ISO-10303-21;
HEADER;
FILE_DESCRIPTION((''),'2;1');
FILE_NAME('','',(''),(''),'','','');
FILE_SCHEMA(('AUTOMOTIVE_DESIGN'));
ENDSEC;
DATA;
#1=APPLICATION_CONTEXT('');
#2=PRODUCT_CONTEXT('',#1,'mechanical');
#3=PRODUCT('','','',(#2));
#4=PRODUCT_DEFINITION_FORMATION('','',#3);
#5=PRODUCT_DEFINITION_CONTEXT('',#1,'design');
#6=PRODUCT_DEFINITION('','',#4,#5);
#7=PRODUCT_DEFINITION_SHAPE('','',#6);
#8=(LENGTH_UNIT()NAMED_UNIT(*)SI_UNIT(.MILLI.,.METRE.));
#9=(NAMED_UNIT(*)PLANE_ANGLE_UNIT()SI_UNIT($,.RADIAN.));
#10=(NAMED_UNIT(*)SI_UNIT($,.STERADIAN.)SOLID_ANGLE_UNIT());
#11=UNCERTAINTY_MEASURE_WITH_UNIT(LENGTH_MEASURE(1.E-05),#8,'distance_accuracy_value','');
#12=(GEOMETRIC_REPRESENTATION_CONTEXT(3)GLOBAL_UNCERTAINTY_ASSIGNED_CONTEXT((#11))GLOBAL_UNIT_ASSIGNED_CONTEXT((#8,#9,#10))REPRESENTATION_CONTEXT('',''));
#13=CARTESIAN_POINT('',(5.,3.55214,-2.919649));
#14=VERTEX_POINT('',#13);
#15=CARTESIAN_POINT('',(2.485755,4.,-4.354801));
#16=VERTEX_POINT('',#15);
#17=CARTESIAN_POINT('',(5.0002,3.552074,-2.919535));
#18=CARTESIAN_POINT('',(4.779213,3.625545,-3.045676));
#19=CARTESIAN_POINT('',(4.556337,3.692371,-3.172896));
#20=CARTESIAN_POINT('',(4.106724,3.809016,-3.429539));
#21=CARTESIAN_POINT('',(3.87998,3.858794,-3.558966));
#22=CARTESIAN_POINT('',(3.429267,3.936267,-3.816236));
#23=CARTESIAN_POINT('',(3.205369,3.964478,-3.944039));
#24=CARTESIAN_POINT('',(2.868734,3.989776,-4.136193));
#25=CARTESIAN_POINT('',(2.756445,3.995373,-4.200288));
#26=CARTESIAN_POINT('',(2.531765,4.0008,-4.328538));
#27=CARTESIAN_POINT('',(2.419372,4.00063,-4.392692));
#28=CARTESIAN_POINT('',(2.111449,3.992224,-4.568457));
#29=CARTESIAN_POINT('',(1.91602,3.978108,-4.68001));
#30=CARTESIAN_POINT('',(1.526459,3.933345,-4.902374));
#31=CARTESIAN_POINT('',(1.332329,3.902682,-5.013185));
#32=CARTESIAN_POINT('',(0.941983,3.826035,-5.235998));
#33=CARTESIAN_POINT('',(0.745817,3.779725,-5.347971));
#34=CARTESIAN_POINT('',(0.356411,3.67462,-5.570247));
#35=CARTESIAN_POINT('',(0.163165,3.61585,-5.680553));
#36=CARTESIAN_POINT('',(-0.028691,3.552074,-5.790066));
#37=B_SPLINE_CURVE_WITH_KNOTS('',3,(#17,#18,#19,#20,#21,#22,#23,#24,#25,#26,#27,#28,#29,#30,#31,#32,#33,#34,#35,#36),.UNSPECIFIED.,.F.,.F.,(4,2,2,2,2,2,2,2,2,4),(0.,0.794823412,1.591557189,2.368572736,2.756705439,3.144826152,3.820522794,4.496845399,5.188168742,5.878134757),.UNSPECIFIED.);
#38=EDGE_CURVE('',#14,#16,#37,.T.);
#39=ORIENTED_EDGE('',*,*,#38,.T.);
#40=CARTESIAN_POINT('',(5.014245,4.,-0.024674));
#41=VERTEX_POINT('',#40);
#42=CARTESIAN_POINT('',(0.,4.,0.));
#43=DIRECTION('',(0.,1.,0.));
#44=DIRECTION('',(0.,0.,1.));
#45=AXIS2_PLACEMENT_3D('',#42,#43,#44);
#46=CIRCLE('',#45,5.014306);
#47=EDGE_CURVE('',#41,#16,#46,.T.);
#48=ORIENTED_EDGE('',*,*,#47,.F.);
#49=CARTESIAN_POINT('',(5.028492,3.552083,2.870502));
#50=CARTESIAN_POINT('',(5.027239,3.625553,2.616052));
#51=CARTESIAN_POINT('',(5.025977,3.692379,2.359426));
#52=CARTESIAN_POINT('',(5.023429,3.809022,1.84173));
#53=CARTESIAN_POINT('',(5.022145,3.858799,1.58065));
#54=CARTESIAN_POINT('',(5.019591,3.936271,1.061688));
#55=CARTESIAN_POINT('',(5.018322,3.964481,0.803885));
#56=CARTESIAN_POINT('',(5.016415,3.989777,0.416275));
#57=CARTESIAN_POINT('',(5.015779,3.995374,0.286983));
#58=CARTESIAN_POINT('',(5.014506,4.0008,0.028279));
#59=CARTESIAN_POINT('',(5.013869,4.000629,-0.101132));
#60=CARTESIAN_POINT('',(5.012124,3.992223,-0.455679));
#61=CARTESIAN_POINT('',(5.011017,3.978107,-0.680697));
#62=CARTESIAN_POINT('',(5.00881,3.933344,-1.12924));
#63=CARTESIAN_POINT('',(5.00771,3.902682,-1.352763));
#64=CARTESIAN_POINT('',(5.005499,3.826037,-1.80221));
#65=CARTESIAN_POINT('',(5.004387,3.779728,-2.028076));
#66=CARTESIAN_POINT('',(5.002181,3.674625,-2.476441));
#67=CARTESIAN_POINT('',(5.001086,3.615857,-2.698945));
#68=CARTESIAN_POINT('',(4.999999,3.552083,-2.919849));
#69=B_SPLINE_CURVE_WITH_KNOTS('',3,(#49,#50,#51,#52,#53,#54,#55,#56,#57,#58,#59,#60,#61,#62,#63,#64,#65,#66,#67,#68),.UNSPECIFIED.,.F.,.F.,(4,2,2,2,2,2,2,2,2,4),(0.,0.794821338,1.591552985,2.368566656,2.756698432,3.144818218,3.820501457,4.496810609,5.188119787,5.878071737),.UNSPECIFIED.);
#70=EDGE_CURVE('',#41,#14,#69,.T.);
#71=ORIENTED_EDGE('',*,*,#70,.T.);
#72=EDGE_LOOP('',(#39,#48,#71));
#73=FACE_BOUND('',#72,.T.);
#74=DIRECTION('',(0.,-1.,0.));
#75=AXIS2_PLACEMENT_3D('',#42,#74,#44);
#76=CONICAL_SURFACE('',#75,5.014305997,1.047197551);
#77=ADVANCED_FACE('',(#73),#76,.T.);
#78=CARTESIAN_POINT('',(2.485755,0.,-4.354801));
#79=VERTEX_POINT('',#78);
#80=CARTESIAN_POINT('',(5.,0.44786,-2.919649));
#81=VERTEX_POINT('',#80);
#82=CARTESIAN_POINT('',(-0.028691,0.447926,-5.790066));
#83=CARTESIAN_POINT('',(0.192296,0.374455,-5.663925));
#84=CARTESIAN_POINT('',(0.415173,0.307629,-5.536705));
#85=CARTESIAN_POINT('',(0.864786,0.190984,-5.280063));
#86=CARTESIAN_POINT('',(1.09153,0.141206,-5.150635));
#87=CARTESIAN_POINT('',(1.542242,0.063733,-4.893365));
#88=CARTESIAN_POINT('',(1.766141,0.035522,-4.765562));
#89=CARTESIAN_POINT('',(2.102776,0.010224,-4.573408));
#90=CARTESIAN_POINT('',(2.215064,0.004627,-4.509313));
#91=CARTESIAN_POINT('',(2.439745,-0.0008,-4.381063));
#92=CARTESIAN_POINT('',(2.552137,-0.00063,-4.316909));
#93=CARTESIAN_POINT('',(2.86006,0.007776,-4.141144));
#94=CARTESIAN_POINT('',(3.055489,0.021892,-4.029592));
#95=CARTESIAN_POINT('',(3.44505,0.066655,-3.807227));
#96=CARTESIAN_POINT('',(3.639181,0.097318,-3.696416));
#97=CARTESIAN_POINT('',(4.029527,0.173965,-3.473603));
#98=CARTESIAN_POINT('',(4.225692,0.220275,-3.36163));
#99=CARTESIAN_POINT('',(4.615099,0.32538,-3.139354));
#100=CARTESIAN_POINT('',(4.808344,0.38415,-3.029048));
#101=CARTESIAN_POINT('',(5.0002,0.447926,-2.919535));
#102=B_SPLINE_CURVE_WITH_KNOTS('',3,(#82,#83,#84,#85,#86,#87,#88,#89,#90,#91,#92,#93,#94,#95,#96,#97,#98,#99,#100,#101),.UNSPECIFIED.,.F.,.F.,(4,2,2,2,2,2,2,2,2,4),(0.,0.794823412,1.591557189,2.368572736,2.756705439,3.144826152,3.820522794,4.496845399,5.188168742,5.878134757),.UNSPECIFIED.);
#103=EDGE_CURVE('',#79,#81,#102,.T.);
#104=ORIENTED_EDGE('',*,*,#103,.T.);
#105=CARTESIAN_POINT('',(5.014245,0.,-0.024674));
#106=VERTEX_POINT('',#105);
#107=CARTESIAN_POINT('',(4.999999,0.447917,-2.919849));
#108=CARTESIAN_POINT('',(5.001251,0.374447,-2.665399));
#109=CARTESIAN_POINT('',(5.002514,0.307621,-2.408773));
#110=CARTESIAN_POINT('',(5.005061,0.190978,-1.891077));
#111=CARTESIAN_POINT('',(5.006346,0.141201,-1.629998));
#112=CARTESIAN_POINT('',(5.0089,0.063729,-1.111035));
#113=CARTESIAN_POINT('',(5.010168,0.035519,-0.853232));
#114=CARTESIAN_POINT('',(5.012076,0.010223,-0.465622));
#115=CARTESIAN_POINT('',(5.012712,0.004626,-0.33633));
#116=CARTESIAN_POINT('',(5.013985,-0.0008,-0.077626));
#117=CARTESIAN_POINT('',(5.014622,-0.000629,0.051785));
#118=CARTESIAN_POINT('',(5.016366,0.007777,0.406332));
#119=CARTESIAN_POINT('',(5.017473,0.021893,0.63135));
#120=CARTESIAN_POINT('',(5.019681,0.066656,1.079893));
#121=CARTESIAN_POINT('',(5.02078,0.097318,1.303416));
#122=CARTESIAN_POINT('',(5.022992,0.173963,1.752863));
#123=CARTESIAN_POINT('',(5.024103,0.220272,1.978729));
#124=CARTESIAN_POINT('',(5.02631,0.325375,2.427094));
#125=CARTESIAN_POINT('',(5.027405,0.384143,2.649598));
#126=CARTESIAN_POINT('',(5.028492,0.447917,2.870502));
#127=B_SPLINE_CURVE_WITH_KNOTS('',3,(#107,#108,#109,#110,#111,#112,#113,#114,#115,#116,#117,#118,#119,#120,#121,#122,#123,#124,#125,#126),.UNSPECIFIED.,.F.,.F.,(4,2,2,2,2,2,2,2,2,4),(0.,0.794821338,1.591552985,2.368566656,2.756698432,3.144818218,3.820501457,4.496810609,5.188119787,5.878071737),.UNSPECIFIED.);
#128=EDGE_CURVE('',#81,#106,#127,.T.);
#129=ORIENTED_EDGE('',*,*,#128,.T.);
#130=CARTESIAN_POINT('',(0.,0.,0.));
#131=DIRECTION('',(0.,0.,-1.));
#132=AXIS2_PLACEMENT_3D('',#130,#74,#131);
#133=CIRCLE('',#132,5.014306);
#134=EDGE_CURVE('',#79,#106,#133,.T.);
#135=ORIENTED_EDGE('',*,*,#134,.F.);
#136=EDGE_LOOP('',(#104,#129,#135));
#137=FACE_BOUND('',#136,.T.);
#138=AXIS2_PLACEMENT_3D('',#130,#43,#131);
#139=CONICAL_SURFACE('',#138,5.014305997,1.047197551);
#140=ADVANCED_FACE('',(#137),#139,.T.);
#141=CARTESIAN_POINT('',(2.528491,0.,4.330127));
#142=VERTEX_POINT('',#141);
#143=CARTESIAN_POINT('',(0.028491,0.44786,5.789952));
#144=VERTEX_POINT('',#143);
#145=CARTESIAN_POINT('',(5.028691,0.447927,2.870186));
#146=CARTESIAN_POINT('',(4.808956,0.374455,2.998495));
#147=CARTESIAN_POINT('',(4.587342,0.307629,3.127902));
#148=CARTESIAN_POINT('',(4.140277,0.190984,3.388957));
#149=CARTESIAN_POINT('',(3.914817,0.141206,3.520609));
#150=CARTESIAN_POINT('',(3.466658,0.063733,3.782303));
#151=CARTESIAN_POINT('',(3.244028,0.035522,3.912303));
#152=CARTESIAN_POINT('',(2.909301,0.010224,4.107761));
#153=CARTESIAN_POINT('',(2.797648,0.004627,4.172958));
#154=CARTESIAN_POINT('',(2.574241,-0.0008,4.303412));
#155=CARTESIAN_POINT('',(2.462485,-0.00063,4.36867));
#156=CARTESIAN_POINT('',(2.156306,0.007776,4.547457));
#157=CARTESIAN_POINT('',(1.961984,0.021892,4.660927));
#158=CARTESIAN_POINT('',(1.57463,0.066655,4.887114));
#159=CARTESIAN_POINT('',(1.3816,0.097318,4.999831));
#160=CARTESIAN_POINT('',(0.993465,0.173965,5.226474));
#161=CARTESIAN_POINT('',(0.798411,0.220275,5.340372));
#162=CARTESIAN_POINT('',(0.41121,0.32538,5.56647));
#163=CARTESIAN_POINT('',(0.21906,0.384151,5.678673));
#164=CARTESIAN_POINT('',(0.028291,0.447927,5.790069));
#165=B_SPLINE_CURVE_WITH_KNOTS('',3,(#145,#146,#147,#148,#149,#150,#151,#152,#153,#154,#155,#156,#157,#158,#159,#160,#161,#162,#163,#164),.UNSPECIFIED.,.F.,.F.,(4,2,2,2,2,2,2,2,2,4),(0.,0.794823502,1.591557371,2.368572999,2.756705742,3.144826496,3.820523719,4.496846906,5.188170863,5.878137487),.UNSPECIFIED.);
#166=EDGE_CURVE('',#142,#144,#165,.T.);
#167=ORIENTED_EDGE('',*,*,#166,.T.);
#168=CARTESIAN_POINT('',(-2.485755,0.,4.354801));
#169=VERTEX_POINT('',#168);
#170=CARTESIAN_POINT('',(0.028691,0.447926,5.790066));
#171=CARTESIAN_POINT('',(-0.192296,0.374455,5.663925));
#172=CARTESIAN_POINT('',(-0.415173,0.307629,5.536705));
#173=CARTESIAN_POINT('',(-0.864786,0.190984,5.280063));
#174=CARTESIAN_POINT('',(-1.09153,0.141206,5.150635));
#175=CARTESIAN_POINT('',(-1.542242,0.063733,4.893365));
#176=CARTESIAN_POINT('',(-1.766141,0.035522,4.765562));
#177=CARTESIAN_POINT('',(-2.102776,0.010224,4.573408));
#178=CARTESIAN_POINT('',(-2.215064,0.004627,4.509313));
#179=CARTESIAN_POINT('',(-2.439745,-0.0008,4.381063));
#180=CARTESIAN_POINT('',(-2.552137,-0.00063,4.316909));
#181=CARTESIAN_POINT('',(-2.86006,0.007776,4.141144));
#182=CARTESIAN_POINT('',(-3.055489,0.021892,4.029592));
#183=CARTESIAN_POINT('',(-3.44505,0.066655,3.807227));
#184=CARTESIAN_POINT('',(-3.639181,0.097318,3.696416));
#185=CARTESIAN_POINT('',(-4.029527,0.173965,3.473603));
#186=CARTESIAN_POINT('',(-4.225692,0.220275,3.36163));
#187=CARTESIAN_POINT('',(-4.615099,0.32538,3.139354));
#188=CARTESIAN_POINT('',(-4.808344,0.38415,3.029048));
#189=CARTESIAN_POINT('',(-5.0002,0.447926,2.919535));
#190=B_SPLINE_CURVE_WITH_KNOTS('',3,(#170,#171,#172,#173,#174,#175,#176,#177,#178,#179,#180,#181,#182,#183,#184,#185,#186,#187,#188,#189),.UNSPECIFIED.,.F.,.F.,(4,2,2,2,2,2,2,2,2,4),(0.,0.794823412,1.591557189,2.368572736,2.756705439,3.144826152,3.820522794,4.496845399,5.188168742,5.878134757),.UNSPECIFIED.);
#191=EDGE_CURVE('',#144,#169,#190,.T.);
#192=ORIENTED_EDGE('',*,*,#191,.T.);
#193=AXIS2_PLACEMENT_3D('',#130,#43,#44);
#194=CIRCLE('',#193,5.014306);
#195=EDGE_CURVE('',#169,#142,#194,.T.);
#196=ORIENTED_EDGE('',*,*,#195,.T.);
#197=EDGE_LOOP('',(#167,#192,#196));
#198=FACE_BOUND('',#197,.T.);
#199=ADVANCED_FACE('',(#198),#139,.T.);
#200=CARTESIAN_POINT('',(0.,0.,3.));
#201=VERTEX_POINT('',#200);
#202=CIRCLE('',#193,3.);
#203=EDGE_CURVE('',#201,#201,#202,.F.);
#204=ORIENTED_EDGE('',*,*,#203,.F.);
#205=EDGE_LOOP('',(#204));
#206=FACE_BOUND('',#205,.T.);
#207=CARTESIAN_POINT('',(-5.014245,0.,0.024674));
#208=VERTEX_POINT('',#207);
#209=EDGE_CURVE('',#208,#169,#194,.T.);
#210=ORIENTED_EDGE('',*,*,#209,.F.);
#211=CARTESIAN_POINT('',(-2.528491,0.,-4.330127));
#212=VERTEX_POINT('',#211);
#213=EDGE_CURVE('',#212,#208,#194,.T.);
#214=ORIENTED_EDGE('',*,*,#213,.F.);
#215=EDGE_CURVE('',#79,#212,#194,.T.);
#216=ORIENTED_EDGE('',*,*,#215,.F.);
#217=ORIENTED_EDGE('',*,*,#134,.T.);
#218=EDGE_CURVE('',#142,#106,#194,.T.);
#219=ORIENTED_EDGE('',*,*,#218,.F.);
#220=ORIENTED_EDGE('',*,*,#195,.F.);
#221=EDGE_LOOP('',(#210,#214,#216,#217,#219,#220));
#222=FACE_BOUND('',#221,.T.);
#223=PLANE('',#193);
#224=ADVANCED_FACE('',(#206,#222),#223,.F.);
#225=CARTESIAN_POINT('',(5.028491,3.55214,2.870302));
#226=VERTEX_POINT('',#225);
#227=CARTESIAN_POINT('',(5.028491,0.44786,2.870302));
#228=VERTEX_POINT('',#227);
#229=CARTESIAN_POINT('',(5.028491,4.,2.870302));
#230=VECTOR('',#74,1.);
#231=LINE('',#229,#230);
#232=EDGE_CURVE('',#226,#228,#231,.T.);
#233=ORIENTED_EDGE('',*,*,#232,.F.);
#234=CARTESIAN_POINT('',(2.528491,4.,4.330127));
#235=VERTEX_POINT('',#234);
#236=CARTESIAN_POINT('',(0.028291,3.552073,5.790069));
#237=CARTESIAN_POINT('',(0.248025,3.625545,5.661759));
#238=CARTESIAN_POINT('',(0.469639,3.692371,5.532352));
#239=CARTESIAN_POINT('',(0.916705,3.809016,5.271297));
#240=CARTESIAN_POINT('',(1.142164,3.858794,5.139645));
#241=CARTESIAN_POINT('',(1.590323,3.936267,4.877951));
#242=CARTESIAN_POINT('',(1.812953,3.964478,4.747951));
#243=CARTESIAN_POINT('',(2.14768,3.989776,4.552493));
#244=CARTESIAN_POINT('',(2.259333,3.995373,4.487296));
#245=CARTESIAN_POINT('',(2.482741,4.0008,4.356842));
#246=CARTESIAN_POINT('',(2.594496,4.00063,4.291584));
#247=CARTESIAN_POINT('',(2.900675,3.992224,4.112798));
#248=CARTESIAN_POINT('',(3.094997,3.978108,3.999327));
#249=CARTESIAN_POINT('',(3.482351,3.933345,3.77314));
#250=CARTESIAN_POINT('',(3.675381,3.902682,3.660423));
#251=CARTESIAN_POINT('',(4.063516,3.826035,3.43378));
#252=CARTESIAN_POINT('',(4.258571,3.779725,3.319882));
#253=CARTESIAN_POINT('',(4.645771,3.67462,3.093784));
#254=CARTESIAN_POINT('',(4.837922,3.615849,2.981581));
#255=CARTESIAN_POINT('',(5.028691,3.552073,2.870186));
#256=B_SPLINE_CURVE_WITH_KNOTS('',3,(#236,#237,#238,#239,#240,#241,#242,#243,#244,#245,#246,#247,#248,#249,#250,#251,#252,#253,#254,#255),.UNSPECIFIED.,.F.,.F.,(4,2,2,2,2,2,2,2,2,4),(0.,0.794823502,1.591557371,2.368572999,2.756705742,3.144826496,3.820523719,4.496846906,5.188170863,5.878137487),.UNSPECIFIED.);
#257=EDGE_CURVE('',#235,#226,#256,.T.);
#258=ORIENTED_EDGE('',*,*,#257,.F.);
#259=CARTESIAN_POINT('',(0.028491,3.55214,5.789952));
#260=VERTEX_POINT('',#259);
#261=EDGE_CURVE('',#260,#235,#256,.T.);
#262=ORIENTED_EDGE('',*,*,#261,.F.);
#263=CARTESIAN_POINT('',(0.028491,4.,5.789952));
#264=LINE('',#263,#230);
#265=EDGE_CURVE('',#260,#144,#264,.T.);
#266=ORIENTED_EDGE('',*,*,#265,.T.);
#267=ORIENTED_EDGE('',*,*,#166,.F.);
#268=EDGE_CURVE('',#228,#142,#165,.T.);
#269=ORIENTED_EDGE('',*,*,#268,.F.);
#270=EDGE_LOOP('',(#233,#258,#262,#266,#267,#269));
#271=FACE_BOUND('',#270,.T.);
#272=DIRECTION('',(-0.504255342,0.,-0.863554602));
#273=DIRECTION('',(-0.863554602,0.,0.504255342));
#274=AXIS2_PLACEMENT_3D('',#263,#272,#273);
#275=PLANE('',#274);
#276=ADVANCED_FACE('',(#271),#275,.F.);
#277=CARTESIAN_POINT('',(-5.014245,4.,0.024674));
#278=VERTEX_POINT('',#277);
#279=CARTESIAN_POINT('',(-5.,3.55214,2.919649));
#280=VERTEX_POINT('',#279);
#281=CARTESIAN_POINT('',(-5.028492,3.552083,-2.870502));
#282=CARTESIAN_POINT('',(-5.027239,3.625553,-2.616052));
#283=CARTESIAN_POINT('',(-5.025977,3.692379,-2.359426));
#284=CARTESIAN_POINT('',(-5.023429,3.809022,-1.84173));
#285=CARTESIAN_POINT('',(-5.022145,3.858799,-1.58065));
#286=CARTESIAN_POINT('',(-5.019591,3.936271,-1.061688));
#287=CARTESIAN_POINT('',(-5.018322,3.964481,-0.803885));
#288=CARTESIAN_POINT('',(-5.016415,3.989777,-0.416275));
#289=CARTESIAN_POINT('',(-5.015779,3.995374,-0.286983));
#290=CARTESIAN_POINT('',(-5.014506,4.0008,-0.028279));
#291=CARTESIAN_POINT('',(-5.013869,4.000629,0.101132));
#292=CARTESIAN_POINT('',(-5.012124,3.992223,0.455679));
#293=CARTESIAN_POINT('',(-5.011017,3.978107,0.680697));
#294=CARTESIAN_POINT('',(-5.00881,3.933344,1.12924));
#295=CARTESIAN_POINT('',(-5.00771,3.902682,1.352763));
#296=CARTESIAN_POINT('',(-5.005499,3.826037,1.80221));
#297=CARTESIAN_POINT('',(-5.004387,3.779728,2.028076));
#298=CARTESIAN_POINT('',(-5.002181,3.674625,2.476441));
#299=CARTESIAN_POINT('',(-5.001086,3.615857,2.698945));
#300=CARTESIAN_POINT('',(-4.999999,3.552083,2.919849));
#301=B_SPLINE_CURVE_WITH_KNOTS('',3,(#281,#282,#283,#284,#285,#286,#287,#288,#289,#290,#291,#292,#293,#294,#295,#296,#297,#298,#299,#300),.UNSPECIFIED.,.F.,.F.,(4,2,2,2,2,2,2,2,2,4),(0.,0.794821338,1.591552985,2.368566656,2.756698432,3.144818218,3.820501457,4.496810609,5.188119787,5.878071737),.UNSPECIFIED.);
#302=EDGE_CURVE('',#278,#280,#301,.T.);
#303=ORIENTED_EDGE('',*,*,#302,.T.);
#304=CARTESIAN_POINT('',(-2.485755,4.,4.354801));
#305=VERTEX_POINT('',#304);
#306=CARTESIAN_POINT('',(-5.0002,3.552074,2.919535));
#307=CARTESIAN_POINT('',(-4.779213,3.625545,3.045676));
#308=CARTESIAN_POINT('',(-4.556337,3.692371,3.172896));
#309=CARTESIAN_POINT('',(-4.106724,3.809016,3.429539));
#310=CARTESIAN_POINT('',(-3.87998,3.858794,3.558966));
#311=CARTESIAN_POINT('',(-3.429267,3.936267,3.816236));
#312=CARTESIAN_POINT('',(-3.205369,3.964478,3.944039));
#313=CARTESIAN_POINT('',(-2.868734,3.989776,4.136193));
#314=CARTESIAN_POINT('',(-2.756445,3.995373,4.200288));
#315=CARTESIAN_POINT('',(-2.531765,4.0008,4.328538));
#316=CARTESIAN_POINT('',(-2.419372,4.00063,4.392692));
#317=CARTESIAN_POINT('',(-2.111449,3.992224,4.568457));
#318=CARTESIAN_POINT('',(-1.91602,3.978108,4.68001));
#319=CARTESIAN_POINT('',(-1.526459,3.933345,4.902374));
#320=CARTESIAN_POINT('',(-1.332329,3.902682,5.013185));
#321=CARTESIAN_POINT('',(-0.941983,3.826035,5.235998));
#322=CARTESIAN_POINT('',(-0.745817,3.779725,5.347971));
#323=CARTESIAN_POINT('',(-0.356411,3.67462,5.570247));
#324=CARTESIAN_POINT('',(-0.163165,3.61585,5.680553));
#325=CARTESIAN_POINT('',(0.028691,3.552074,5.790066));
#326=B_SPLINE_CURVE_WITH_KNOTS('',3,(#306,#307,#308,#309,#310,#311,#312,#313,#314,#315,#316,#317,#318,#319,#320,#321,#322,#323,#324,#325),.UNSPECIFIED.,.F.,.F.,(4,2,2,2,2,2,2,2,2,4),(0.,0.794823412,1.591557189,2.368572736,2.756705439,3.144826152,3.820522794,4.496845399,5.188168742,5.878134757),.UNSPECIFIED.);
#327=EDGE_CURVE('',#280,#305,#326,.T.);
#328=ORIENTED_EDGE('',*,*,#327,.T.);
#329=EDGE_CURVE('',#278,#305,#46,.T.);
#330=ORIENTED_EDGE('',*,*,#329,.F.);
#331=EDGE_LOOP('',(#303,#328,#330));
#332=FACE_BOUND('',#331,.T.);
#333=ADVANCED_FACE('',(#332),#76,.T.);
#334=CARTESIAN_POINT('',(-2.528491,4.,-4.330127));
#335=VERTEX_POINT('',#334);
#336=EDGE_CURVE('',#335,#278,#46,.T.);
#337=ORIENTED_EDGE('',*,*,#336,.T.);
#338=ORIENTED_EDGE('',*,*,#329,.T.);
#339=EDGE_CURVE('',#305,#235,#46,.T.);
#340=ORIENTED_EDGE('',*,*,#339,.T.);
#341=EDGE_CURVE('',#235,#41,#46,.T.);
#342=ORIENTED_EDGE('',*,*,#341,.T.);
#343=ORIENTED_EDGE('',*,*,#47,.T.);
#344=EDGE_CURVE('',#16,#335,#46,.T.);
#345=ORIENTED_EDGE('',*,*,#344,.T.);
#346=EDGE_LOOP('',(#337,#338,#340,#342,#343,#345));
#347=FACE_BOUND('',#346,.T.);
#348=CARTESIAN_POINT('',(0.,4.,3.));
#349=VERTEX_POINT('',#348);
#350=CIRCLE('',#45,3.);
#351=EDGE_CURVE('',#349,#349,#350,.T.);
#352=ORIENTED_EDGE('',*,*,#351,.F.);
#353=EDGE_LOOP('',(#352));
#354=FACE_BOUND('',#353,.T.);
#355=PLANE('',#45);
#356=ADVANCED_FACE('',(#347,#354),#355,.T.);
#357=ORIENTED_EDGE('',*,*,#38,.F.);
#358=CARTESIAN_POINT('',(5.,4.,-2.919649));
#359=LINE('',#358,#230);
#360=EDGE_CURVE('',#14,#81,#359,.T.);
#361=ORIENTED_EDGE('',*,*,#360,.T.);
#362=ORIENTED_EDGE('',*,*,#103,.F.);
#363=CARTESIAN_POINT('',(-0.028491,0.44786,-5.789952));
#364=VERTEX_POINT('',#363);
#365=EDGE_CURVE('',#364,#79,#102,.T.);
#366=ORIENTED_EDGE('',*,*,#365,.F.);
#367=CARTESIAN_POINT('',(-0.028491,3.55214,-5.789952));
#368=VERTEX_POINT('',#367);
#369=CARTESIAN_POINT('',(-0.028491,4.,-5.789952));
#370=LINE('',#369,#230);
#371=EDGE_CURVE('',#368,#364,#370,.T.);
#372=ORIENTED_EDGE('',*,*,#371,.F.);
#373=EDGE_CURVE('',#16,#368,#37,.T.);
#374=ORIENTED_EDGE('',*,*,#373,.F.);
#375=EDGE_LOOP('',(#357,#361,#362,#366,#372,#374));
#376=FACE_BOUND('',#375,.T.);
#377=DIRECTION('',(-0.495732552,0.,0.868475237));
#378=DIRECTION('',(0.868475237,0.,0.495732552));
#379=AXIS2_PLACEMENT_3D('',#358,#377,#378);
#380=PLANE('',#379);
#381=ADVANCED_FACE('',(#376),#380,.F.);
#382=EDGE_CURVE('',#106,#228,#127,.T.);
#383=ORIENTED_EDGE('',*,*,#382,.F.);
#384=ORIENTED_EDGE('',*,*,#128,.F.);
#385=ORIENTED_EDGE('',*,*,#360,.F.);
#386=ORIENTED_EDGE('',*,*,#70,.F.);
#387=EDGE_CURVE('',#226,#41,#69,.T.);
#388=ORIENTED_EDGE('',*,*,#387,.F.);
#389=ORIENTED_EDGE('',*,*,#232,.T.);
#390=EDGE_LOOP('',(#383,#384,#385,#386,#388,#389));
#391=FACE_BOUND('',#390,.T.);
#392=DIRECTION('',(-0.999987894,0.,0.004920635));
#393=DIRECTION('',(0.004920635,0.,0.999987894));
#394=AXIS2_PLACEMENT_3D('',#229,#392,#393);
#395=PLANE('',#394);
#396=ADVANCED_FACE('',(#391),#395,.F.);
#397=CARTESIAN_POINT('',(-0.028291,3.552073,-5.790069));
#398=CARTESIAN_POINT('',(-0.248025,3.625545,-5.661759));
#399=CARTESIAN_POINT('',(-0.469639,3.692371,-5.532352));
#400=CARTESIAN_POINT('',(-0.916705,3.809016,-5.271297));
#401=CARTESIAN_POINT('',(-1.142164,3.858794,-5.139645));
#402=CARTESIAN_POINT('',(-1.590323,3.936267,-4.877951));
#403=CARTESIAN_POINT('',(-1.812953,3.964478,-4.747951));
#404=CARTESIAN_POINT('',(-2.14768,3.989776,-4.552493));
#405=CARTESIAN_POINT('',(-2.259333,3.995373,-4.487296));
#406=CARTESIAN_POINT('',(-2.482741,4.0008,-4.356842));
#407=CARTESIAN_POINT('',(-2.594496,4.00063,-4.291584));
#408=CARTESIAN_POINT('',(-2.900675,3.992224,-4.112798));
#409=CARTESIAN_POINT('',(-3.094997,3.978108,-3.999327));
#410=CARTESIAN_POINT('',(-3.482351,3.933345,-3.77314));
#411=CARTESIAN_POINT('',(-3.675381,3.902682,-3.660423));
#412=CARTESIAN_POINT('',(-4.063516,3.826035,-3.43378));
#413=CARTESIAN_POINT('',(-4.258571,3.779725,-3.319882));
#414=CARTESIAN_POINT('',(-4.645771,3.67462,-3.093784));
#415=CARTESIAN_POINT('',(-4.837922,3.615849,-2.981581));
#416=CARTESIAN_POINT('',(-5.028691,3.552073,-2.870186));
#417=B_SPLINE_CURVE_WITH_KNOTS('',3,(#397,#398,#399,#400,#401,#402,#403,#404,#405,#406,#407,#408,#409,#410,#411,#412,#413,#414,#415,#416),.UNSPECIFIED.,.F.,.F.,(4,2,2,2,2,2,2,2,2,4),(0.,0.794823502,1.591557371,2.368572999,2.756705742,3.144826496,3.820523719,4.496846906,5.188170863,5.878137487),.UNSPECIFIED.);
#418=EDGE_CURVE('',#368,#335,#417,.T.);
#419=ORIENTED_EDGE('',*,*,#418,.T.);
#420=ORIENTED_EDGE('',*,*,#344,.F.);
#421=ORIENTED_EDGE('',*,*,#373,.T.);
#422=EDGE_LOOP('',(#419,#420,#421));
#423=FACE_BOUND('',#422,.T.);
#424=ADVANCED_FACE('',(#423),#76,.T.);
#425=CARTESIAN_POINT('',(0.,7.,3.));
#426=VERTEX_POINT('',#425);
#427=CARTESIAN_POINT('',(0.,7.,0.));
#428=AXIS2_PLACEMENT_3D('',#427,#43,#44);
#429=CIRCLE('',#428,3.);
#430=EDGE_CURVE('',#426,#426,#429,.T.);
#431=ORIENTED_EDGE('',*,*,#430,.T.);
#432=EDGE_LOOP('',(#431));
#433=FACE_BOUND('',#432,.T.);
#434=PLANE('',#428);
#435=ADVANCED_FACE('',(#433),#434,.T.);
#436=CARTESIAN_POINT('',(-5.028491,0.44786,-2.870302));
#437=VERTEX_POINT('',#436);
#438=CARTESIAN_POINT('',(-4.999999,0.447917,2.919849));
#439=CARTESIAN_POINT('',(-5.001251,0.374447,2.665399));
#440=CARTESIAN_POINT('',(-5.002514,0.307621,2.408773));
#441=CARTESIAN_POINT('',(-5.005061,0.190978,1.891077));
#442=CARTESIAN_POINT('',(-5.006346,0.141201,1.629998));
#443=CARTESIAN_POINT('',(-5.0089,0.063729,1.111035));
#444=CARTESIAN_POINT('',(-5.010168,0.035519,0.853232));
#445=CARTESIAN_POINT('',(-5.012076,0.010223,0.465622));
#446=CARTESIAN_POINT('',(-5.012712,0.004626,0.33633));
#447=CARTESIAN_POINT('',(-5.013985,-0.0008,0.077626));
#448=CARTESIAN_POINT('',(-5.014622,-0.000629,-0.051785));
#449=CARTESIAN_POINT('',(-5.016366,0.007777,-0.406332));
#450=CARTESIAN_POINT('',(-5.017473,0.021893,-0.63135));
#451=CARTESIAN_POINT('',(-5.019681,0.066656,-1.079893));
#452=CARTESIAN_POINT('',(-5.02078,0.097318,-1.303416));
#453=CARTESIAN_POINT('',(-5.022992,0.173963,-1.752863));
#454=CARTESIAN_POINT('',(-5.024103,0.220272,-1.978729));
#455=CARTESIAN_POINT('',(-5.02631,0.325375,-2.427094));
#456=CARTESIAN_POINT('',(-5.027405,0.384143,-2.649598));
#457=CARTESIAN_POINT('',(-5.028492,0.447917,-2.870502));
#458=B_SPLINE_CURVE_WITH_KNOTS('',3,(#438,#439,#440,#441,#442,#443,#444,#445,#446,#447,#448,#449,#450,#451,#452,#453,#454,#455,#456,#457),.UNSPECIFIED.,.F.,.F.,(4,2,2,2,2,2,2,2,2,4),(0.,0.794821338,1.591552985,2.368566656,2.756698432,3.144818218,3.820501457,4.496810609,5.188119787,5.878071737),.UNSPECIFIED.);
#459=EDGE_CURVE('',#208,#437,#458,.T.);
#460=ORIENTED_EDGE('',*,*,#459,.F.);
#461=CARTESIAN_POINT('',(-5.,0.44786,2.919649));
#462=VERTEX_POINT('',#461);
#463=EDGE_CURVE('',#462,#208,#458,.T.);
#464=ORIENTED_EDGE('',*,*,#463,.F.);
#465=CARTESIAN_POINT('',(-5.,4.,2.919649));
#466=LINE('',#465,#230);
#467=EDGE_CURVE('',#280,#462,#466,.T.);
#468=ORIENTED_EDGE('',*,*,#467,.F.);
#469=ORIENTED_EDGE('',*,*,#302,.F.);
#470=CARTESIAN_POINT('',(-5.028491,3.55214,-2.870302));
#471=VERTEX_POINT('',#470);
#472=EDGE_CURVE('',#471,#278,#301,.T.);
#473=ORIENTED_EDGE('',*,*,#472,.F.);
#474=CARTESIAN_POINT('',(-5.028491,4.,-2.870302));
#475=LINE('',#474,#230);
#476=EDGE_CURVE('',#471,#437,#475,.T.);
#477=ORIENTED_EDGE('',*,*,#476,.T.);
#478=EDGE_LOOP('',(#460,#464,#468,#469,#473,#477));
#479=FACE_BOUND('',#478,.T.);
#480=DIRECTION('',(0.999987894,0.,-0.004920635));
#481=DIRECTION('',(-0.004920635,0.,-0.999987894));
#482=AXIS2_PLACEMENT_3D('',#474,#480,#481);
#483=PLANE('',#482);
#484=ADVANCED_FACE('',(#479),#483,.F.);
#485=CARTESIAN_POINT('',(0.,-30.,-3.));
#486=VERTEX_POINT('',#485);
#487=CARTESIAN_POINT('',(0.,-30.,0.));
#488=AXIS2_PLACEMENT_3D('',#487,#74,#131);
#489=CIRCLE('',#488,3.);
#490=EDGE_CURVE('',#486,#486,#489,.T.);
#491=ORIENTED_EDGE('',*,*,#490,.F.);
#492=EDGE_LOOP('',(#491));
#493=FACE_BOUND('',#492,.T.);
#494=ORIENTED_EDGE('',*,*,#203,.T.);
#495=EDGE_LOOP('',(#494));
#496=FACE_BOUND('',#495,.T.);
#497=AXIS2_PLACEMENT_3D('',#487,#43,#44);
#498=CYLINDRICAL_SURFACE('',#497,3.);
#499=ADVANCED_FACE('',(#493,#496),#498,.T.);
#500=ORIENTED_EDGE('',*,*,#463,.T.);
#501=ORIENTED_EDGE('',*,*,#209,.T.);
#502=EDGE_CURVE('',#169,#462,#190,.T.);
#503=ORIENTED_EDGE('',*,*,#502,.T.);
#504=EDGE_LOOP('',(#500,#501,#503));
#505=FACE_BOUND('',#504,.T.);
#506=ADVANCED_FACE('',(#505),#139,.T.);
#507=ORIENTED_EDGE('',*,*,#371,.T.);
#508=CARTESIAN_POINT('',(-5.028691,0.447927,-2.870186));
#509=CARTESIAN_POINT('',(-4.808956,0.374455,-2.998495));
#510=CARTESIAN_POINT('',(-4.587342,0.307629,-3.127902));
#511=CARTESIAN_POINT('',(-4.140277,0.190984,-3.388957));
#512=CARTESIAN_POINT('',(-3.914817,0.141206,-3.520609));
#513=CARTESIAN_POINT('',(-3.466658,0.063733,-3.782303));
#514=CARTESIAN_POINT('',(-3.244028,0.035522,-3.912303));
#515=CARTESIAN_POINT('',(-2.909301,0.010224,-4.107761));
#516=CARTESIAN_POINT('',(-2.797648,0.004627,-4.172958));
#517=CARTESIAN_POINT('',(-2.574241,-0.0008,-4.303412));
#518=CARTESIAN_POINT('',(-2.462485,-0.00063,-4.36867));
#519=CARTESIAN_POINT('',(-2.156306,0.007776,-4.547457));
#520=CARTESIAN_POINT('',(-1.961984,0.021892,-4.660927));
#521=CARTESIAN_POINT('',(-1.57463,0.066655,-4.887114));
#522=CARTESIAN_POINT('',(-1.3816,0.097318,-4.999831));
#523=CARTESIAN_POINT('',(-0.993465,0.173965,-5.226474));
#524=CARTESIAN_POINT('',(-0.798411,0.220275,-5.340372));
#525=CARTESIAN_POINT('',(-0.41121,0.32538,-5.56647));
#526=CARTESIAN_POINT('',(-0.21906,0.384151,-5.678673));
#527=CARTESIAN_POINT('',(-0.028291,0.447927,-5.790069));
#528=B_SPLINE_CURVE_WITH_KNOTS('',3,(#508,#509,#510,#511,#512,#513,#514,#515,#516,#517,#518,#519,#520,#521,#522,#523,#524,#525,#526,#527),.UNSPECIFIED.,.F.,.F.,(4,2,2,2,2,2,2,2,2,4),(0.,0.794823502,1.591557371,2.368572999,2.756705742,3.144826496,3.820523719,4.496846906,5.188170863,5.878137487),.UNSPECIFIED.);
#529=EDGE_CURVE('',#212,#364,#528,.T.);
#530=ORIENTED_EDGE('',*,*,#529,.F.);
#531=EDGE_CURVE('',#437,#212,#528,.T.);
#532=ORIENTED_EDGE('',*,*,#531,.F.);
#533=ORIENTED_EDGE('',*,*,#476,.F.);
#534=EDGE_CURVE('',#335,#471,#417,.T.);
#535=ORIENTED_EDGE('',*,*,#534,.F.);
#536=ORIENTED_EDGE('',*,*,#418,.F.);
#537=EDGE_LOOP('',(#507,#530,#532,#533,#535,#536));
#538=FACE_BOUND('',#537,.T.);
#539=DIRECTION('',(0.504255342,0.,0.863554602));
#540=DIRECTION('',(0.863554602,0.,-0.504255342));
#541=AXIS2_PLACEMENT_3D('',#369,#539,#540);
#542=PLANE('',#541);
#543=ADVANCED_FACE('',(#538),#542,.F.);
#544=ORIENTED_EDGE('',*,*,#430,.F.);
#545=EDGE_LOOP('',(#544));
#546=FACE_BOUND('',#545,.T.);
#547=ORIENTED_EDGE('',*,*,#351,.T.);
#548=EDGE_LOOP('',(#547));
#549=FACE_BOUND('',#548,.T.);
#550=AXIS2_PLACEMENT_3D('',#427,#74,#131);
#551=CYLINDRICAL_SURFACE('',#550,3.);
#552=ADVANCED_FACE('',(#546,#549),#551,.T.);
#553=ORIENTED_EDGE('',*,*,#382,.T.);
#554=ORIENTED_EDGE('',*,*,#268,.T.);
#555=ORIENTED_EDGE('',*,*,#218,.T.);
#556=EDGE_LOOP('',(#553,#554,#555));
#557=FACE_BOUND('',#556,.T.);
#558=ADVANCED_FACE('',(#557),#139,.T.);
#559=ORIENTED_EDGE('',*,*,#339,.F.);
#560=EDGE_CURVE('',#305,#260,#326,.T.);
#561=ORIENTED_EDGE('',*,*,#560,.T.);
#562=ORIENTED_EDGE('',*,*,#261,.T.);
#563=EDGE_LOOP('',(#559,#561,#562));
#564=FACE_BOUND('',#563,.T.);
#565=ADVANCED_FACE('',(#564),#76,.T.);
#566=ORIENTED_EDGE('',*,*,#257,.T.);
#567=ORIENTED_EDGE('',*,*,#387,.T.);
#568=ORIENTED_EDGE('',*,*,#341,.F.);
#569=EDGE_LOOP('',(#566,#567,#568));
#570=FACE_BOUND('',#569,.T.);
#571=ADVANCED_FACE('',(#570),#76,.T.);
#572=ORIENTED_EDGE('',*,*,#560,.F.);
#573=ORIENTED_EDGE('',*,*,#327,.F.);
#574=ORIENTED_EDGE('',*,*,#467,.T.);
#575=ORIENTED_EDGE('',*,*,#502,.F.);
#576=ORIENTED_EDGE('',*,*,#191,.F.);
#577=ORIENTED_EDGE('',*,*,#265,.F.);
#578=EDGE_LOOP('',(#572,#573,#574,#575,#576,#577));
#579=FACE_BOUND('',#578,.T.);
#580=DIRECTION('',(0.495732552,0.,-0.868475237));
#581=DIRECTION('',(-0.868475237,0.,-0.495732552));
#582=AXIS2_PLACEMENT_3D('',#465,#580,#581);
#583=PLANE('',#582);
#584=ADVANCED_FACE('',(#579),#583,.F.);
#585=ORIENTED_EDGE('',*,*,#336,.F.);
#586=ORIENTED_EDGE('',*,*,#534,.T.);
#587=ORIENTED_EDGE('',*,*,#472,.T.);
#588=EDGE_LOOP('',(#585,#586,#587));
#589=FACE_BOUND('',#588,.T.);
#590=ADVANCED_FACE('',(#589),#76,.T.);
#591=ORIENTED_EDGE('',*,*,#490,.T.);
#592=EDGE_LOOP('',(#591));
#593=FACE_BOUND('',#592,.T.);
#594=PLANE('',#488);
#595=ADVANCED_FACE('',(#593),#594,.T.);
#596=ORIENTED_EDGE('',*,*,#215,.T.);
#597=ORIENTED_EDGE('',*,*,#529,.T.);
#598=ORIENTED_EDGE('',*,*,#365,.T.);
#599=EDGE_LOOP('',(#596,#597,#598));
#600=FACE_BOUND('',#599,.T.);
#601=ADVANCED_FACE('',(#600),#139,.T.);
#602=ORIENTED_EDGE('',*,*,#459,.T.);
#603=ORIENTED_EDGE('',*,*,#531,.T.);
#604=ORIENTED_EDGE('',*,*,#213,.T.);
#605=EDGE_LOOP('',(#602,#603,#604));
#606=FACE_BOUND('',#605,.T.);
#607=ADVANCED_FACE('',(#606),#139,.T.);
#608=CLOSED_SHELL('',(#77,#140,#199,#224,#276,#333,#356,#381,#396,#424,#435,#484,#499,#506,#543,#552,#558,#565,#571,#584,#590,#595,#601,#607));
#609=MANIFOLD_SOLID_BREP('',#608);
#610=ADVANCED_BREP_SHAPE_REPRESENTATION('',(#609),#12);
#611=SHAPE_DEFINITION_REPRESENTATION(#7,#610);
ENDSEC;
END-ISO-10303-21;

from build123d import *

# Parameters (mm, degrees)
BOSS_EXTRUDE1_DEPTH = 4
SKETCH2_OUTSIDE_W   = 29.082
SKETCH2_OUTSIDE_H   = 30.606
SKETCH2_OUTSIDE_R   = 5.014305997
CUT_EXTRUDE1_DEPTH  = 4
CUT_EXTRUDE1_DRAFT  = -60
SKETCH3_OUTSIDE_W   = 29.082
SKETCH3_OUTSIDE_H   = 30.606
SKETCH3_OUTSIDE_R   = 5.014305997
CUT_EXTRUDE2_DEPTH  = 4
CUT_EXTRUDE2_DRAFT  = -60
SKETCH4_R           = 3
BOSS_EXTRUDE3_DEPTH = 3
BOSS_EXTRUDE4_START = 30
SKETCH5_R           = 3
BOSS_EXTRUDE4_DEPTH = 30


with BuildPart() as part:
    # Sketch1 → Boss-Extrude1 (new body)
    with BuildSketch(Plane(origin=(0, 0, 0), x_dir=(1, 0, 0), z_dir=(0, 1, 0))):
        Polygon((5, 2.919649438), (-0.028490583, 5.789951738), (-5.028490583, 2.8703023), (-5, -2.919649438), (0.028490583, -5.789951738), (5.028490583, -2.8703023), align=None)
    extrude(amount=BOSS_EXTRUDE1_DEPTH)


with BuildPart() as cut_extrude1_tool:
    # Sketch2 outside → Cut-Extrude1 (with draft: the straight prism first)
    with BuildSketch(Plane(origin=(0, 4, 0), x_dir=(1, 0, 0), z_dir=(0, 1, 0))):
        Rectangle(SKETCH2_OUTSIDE_W, SKETCH2_OUTSIDE_H)
        Circle(SKETCH2_OUTSIDE_R, mode=Mode.SUBTRACT)
    extrude(amount=-CUT_EXTRUDE1_DEPTH)
    # Cut-Extrude1: the draft: its side faces are tilted about the plane it starts from
    cut_extrude1_sides = [cut_extrude1_tool.faces().sort_by_distance(p)[0] for p in [
        (0, 2, 15.303),
        (14.541, 2, 0),
        (0, 2, -15.303),
        (-14.541, 2, 0),
        (-5.014305997, 2, 0),
    ]]
    draft(cut_extrude1_sides, Plane(origin=(0, 4, 0), x_dir=(1, 0, 0), z_dir=(0, 1, 0)), CUT_EXTRUDE1_DRAFT)


with BuildPart() as part_1:
    add(part.part)

    # Cut-Extrude1: cut by cut_extrude1_tool
    add(cut_extrude1_tool.part, mode=Mode.SUBTRACT)


with BuildPart() as cut_extrude2_tool:
    # Sketch3 outside → Cut-Extrude2 (with draft: the straight prism first)
    with BuildSketch(Plane.XZ):
        Rectangle(SKETCH3_OUTSIDE_W, SKETCH3_OUTSIDE_H)
        Circle(SKETCH3_OUTSIDE_R, mode=Mode.SUBTRACT)
    extrude(amount=-CUT_EXTRUDE2_DEPTH)
    # Cut-Extrude2: the draft: its side faces are tilted about the plane it starts from
    cut_extrude2_sides = [cut_extrude2_tool.faces().sort_by_distance(p)[0] for p in [
        (0, 2, -15.303),
        (14.541, 2, 0),
        (0, 2, 15.303),
        (-14.541, 2, 0),
        (-5.014305997, 2, 0),
    ]]
    draft(cut_extrude2_sides, Plane.XZ, CUT_EXTRUDE2_DRAFT)


with BuildPart() as part_2:
    add(part_1.part)

    # Cut-Extrude2: cut by cut_extrude2_tool
    add(cut_extrude2_tool.part, mode=Mode.SUBTRACT)

    # Sketch4 → Boss-Extrude3 (add)
    with BuildSketch(Plane(origin=(0, 4, 0), x_dir=(1, 0, 0), z_dir=(0, 1, 0))):
        with Locations(Location((0, 0, 0), (0, 0, 270))):
            Circle(SKETCH4_R)
    extrude(amount=BOSS_EXTRUDE3_DEPTH)

    # Sketch5 → Boss-Extrude4 (add)
    with BuildSketch(Plane.XZ.offset(BOSS_EXTRUDE4_START)):
        with Locations(Location((0, 0, 0), (0, 0, 90))):
            Circle(SKETCH5_R)
    extrude(amount=-BOSS_EXTRUDE4_DEPTH)


solid = part_2.part
